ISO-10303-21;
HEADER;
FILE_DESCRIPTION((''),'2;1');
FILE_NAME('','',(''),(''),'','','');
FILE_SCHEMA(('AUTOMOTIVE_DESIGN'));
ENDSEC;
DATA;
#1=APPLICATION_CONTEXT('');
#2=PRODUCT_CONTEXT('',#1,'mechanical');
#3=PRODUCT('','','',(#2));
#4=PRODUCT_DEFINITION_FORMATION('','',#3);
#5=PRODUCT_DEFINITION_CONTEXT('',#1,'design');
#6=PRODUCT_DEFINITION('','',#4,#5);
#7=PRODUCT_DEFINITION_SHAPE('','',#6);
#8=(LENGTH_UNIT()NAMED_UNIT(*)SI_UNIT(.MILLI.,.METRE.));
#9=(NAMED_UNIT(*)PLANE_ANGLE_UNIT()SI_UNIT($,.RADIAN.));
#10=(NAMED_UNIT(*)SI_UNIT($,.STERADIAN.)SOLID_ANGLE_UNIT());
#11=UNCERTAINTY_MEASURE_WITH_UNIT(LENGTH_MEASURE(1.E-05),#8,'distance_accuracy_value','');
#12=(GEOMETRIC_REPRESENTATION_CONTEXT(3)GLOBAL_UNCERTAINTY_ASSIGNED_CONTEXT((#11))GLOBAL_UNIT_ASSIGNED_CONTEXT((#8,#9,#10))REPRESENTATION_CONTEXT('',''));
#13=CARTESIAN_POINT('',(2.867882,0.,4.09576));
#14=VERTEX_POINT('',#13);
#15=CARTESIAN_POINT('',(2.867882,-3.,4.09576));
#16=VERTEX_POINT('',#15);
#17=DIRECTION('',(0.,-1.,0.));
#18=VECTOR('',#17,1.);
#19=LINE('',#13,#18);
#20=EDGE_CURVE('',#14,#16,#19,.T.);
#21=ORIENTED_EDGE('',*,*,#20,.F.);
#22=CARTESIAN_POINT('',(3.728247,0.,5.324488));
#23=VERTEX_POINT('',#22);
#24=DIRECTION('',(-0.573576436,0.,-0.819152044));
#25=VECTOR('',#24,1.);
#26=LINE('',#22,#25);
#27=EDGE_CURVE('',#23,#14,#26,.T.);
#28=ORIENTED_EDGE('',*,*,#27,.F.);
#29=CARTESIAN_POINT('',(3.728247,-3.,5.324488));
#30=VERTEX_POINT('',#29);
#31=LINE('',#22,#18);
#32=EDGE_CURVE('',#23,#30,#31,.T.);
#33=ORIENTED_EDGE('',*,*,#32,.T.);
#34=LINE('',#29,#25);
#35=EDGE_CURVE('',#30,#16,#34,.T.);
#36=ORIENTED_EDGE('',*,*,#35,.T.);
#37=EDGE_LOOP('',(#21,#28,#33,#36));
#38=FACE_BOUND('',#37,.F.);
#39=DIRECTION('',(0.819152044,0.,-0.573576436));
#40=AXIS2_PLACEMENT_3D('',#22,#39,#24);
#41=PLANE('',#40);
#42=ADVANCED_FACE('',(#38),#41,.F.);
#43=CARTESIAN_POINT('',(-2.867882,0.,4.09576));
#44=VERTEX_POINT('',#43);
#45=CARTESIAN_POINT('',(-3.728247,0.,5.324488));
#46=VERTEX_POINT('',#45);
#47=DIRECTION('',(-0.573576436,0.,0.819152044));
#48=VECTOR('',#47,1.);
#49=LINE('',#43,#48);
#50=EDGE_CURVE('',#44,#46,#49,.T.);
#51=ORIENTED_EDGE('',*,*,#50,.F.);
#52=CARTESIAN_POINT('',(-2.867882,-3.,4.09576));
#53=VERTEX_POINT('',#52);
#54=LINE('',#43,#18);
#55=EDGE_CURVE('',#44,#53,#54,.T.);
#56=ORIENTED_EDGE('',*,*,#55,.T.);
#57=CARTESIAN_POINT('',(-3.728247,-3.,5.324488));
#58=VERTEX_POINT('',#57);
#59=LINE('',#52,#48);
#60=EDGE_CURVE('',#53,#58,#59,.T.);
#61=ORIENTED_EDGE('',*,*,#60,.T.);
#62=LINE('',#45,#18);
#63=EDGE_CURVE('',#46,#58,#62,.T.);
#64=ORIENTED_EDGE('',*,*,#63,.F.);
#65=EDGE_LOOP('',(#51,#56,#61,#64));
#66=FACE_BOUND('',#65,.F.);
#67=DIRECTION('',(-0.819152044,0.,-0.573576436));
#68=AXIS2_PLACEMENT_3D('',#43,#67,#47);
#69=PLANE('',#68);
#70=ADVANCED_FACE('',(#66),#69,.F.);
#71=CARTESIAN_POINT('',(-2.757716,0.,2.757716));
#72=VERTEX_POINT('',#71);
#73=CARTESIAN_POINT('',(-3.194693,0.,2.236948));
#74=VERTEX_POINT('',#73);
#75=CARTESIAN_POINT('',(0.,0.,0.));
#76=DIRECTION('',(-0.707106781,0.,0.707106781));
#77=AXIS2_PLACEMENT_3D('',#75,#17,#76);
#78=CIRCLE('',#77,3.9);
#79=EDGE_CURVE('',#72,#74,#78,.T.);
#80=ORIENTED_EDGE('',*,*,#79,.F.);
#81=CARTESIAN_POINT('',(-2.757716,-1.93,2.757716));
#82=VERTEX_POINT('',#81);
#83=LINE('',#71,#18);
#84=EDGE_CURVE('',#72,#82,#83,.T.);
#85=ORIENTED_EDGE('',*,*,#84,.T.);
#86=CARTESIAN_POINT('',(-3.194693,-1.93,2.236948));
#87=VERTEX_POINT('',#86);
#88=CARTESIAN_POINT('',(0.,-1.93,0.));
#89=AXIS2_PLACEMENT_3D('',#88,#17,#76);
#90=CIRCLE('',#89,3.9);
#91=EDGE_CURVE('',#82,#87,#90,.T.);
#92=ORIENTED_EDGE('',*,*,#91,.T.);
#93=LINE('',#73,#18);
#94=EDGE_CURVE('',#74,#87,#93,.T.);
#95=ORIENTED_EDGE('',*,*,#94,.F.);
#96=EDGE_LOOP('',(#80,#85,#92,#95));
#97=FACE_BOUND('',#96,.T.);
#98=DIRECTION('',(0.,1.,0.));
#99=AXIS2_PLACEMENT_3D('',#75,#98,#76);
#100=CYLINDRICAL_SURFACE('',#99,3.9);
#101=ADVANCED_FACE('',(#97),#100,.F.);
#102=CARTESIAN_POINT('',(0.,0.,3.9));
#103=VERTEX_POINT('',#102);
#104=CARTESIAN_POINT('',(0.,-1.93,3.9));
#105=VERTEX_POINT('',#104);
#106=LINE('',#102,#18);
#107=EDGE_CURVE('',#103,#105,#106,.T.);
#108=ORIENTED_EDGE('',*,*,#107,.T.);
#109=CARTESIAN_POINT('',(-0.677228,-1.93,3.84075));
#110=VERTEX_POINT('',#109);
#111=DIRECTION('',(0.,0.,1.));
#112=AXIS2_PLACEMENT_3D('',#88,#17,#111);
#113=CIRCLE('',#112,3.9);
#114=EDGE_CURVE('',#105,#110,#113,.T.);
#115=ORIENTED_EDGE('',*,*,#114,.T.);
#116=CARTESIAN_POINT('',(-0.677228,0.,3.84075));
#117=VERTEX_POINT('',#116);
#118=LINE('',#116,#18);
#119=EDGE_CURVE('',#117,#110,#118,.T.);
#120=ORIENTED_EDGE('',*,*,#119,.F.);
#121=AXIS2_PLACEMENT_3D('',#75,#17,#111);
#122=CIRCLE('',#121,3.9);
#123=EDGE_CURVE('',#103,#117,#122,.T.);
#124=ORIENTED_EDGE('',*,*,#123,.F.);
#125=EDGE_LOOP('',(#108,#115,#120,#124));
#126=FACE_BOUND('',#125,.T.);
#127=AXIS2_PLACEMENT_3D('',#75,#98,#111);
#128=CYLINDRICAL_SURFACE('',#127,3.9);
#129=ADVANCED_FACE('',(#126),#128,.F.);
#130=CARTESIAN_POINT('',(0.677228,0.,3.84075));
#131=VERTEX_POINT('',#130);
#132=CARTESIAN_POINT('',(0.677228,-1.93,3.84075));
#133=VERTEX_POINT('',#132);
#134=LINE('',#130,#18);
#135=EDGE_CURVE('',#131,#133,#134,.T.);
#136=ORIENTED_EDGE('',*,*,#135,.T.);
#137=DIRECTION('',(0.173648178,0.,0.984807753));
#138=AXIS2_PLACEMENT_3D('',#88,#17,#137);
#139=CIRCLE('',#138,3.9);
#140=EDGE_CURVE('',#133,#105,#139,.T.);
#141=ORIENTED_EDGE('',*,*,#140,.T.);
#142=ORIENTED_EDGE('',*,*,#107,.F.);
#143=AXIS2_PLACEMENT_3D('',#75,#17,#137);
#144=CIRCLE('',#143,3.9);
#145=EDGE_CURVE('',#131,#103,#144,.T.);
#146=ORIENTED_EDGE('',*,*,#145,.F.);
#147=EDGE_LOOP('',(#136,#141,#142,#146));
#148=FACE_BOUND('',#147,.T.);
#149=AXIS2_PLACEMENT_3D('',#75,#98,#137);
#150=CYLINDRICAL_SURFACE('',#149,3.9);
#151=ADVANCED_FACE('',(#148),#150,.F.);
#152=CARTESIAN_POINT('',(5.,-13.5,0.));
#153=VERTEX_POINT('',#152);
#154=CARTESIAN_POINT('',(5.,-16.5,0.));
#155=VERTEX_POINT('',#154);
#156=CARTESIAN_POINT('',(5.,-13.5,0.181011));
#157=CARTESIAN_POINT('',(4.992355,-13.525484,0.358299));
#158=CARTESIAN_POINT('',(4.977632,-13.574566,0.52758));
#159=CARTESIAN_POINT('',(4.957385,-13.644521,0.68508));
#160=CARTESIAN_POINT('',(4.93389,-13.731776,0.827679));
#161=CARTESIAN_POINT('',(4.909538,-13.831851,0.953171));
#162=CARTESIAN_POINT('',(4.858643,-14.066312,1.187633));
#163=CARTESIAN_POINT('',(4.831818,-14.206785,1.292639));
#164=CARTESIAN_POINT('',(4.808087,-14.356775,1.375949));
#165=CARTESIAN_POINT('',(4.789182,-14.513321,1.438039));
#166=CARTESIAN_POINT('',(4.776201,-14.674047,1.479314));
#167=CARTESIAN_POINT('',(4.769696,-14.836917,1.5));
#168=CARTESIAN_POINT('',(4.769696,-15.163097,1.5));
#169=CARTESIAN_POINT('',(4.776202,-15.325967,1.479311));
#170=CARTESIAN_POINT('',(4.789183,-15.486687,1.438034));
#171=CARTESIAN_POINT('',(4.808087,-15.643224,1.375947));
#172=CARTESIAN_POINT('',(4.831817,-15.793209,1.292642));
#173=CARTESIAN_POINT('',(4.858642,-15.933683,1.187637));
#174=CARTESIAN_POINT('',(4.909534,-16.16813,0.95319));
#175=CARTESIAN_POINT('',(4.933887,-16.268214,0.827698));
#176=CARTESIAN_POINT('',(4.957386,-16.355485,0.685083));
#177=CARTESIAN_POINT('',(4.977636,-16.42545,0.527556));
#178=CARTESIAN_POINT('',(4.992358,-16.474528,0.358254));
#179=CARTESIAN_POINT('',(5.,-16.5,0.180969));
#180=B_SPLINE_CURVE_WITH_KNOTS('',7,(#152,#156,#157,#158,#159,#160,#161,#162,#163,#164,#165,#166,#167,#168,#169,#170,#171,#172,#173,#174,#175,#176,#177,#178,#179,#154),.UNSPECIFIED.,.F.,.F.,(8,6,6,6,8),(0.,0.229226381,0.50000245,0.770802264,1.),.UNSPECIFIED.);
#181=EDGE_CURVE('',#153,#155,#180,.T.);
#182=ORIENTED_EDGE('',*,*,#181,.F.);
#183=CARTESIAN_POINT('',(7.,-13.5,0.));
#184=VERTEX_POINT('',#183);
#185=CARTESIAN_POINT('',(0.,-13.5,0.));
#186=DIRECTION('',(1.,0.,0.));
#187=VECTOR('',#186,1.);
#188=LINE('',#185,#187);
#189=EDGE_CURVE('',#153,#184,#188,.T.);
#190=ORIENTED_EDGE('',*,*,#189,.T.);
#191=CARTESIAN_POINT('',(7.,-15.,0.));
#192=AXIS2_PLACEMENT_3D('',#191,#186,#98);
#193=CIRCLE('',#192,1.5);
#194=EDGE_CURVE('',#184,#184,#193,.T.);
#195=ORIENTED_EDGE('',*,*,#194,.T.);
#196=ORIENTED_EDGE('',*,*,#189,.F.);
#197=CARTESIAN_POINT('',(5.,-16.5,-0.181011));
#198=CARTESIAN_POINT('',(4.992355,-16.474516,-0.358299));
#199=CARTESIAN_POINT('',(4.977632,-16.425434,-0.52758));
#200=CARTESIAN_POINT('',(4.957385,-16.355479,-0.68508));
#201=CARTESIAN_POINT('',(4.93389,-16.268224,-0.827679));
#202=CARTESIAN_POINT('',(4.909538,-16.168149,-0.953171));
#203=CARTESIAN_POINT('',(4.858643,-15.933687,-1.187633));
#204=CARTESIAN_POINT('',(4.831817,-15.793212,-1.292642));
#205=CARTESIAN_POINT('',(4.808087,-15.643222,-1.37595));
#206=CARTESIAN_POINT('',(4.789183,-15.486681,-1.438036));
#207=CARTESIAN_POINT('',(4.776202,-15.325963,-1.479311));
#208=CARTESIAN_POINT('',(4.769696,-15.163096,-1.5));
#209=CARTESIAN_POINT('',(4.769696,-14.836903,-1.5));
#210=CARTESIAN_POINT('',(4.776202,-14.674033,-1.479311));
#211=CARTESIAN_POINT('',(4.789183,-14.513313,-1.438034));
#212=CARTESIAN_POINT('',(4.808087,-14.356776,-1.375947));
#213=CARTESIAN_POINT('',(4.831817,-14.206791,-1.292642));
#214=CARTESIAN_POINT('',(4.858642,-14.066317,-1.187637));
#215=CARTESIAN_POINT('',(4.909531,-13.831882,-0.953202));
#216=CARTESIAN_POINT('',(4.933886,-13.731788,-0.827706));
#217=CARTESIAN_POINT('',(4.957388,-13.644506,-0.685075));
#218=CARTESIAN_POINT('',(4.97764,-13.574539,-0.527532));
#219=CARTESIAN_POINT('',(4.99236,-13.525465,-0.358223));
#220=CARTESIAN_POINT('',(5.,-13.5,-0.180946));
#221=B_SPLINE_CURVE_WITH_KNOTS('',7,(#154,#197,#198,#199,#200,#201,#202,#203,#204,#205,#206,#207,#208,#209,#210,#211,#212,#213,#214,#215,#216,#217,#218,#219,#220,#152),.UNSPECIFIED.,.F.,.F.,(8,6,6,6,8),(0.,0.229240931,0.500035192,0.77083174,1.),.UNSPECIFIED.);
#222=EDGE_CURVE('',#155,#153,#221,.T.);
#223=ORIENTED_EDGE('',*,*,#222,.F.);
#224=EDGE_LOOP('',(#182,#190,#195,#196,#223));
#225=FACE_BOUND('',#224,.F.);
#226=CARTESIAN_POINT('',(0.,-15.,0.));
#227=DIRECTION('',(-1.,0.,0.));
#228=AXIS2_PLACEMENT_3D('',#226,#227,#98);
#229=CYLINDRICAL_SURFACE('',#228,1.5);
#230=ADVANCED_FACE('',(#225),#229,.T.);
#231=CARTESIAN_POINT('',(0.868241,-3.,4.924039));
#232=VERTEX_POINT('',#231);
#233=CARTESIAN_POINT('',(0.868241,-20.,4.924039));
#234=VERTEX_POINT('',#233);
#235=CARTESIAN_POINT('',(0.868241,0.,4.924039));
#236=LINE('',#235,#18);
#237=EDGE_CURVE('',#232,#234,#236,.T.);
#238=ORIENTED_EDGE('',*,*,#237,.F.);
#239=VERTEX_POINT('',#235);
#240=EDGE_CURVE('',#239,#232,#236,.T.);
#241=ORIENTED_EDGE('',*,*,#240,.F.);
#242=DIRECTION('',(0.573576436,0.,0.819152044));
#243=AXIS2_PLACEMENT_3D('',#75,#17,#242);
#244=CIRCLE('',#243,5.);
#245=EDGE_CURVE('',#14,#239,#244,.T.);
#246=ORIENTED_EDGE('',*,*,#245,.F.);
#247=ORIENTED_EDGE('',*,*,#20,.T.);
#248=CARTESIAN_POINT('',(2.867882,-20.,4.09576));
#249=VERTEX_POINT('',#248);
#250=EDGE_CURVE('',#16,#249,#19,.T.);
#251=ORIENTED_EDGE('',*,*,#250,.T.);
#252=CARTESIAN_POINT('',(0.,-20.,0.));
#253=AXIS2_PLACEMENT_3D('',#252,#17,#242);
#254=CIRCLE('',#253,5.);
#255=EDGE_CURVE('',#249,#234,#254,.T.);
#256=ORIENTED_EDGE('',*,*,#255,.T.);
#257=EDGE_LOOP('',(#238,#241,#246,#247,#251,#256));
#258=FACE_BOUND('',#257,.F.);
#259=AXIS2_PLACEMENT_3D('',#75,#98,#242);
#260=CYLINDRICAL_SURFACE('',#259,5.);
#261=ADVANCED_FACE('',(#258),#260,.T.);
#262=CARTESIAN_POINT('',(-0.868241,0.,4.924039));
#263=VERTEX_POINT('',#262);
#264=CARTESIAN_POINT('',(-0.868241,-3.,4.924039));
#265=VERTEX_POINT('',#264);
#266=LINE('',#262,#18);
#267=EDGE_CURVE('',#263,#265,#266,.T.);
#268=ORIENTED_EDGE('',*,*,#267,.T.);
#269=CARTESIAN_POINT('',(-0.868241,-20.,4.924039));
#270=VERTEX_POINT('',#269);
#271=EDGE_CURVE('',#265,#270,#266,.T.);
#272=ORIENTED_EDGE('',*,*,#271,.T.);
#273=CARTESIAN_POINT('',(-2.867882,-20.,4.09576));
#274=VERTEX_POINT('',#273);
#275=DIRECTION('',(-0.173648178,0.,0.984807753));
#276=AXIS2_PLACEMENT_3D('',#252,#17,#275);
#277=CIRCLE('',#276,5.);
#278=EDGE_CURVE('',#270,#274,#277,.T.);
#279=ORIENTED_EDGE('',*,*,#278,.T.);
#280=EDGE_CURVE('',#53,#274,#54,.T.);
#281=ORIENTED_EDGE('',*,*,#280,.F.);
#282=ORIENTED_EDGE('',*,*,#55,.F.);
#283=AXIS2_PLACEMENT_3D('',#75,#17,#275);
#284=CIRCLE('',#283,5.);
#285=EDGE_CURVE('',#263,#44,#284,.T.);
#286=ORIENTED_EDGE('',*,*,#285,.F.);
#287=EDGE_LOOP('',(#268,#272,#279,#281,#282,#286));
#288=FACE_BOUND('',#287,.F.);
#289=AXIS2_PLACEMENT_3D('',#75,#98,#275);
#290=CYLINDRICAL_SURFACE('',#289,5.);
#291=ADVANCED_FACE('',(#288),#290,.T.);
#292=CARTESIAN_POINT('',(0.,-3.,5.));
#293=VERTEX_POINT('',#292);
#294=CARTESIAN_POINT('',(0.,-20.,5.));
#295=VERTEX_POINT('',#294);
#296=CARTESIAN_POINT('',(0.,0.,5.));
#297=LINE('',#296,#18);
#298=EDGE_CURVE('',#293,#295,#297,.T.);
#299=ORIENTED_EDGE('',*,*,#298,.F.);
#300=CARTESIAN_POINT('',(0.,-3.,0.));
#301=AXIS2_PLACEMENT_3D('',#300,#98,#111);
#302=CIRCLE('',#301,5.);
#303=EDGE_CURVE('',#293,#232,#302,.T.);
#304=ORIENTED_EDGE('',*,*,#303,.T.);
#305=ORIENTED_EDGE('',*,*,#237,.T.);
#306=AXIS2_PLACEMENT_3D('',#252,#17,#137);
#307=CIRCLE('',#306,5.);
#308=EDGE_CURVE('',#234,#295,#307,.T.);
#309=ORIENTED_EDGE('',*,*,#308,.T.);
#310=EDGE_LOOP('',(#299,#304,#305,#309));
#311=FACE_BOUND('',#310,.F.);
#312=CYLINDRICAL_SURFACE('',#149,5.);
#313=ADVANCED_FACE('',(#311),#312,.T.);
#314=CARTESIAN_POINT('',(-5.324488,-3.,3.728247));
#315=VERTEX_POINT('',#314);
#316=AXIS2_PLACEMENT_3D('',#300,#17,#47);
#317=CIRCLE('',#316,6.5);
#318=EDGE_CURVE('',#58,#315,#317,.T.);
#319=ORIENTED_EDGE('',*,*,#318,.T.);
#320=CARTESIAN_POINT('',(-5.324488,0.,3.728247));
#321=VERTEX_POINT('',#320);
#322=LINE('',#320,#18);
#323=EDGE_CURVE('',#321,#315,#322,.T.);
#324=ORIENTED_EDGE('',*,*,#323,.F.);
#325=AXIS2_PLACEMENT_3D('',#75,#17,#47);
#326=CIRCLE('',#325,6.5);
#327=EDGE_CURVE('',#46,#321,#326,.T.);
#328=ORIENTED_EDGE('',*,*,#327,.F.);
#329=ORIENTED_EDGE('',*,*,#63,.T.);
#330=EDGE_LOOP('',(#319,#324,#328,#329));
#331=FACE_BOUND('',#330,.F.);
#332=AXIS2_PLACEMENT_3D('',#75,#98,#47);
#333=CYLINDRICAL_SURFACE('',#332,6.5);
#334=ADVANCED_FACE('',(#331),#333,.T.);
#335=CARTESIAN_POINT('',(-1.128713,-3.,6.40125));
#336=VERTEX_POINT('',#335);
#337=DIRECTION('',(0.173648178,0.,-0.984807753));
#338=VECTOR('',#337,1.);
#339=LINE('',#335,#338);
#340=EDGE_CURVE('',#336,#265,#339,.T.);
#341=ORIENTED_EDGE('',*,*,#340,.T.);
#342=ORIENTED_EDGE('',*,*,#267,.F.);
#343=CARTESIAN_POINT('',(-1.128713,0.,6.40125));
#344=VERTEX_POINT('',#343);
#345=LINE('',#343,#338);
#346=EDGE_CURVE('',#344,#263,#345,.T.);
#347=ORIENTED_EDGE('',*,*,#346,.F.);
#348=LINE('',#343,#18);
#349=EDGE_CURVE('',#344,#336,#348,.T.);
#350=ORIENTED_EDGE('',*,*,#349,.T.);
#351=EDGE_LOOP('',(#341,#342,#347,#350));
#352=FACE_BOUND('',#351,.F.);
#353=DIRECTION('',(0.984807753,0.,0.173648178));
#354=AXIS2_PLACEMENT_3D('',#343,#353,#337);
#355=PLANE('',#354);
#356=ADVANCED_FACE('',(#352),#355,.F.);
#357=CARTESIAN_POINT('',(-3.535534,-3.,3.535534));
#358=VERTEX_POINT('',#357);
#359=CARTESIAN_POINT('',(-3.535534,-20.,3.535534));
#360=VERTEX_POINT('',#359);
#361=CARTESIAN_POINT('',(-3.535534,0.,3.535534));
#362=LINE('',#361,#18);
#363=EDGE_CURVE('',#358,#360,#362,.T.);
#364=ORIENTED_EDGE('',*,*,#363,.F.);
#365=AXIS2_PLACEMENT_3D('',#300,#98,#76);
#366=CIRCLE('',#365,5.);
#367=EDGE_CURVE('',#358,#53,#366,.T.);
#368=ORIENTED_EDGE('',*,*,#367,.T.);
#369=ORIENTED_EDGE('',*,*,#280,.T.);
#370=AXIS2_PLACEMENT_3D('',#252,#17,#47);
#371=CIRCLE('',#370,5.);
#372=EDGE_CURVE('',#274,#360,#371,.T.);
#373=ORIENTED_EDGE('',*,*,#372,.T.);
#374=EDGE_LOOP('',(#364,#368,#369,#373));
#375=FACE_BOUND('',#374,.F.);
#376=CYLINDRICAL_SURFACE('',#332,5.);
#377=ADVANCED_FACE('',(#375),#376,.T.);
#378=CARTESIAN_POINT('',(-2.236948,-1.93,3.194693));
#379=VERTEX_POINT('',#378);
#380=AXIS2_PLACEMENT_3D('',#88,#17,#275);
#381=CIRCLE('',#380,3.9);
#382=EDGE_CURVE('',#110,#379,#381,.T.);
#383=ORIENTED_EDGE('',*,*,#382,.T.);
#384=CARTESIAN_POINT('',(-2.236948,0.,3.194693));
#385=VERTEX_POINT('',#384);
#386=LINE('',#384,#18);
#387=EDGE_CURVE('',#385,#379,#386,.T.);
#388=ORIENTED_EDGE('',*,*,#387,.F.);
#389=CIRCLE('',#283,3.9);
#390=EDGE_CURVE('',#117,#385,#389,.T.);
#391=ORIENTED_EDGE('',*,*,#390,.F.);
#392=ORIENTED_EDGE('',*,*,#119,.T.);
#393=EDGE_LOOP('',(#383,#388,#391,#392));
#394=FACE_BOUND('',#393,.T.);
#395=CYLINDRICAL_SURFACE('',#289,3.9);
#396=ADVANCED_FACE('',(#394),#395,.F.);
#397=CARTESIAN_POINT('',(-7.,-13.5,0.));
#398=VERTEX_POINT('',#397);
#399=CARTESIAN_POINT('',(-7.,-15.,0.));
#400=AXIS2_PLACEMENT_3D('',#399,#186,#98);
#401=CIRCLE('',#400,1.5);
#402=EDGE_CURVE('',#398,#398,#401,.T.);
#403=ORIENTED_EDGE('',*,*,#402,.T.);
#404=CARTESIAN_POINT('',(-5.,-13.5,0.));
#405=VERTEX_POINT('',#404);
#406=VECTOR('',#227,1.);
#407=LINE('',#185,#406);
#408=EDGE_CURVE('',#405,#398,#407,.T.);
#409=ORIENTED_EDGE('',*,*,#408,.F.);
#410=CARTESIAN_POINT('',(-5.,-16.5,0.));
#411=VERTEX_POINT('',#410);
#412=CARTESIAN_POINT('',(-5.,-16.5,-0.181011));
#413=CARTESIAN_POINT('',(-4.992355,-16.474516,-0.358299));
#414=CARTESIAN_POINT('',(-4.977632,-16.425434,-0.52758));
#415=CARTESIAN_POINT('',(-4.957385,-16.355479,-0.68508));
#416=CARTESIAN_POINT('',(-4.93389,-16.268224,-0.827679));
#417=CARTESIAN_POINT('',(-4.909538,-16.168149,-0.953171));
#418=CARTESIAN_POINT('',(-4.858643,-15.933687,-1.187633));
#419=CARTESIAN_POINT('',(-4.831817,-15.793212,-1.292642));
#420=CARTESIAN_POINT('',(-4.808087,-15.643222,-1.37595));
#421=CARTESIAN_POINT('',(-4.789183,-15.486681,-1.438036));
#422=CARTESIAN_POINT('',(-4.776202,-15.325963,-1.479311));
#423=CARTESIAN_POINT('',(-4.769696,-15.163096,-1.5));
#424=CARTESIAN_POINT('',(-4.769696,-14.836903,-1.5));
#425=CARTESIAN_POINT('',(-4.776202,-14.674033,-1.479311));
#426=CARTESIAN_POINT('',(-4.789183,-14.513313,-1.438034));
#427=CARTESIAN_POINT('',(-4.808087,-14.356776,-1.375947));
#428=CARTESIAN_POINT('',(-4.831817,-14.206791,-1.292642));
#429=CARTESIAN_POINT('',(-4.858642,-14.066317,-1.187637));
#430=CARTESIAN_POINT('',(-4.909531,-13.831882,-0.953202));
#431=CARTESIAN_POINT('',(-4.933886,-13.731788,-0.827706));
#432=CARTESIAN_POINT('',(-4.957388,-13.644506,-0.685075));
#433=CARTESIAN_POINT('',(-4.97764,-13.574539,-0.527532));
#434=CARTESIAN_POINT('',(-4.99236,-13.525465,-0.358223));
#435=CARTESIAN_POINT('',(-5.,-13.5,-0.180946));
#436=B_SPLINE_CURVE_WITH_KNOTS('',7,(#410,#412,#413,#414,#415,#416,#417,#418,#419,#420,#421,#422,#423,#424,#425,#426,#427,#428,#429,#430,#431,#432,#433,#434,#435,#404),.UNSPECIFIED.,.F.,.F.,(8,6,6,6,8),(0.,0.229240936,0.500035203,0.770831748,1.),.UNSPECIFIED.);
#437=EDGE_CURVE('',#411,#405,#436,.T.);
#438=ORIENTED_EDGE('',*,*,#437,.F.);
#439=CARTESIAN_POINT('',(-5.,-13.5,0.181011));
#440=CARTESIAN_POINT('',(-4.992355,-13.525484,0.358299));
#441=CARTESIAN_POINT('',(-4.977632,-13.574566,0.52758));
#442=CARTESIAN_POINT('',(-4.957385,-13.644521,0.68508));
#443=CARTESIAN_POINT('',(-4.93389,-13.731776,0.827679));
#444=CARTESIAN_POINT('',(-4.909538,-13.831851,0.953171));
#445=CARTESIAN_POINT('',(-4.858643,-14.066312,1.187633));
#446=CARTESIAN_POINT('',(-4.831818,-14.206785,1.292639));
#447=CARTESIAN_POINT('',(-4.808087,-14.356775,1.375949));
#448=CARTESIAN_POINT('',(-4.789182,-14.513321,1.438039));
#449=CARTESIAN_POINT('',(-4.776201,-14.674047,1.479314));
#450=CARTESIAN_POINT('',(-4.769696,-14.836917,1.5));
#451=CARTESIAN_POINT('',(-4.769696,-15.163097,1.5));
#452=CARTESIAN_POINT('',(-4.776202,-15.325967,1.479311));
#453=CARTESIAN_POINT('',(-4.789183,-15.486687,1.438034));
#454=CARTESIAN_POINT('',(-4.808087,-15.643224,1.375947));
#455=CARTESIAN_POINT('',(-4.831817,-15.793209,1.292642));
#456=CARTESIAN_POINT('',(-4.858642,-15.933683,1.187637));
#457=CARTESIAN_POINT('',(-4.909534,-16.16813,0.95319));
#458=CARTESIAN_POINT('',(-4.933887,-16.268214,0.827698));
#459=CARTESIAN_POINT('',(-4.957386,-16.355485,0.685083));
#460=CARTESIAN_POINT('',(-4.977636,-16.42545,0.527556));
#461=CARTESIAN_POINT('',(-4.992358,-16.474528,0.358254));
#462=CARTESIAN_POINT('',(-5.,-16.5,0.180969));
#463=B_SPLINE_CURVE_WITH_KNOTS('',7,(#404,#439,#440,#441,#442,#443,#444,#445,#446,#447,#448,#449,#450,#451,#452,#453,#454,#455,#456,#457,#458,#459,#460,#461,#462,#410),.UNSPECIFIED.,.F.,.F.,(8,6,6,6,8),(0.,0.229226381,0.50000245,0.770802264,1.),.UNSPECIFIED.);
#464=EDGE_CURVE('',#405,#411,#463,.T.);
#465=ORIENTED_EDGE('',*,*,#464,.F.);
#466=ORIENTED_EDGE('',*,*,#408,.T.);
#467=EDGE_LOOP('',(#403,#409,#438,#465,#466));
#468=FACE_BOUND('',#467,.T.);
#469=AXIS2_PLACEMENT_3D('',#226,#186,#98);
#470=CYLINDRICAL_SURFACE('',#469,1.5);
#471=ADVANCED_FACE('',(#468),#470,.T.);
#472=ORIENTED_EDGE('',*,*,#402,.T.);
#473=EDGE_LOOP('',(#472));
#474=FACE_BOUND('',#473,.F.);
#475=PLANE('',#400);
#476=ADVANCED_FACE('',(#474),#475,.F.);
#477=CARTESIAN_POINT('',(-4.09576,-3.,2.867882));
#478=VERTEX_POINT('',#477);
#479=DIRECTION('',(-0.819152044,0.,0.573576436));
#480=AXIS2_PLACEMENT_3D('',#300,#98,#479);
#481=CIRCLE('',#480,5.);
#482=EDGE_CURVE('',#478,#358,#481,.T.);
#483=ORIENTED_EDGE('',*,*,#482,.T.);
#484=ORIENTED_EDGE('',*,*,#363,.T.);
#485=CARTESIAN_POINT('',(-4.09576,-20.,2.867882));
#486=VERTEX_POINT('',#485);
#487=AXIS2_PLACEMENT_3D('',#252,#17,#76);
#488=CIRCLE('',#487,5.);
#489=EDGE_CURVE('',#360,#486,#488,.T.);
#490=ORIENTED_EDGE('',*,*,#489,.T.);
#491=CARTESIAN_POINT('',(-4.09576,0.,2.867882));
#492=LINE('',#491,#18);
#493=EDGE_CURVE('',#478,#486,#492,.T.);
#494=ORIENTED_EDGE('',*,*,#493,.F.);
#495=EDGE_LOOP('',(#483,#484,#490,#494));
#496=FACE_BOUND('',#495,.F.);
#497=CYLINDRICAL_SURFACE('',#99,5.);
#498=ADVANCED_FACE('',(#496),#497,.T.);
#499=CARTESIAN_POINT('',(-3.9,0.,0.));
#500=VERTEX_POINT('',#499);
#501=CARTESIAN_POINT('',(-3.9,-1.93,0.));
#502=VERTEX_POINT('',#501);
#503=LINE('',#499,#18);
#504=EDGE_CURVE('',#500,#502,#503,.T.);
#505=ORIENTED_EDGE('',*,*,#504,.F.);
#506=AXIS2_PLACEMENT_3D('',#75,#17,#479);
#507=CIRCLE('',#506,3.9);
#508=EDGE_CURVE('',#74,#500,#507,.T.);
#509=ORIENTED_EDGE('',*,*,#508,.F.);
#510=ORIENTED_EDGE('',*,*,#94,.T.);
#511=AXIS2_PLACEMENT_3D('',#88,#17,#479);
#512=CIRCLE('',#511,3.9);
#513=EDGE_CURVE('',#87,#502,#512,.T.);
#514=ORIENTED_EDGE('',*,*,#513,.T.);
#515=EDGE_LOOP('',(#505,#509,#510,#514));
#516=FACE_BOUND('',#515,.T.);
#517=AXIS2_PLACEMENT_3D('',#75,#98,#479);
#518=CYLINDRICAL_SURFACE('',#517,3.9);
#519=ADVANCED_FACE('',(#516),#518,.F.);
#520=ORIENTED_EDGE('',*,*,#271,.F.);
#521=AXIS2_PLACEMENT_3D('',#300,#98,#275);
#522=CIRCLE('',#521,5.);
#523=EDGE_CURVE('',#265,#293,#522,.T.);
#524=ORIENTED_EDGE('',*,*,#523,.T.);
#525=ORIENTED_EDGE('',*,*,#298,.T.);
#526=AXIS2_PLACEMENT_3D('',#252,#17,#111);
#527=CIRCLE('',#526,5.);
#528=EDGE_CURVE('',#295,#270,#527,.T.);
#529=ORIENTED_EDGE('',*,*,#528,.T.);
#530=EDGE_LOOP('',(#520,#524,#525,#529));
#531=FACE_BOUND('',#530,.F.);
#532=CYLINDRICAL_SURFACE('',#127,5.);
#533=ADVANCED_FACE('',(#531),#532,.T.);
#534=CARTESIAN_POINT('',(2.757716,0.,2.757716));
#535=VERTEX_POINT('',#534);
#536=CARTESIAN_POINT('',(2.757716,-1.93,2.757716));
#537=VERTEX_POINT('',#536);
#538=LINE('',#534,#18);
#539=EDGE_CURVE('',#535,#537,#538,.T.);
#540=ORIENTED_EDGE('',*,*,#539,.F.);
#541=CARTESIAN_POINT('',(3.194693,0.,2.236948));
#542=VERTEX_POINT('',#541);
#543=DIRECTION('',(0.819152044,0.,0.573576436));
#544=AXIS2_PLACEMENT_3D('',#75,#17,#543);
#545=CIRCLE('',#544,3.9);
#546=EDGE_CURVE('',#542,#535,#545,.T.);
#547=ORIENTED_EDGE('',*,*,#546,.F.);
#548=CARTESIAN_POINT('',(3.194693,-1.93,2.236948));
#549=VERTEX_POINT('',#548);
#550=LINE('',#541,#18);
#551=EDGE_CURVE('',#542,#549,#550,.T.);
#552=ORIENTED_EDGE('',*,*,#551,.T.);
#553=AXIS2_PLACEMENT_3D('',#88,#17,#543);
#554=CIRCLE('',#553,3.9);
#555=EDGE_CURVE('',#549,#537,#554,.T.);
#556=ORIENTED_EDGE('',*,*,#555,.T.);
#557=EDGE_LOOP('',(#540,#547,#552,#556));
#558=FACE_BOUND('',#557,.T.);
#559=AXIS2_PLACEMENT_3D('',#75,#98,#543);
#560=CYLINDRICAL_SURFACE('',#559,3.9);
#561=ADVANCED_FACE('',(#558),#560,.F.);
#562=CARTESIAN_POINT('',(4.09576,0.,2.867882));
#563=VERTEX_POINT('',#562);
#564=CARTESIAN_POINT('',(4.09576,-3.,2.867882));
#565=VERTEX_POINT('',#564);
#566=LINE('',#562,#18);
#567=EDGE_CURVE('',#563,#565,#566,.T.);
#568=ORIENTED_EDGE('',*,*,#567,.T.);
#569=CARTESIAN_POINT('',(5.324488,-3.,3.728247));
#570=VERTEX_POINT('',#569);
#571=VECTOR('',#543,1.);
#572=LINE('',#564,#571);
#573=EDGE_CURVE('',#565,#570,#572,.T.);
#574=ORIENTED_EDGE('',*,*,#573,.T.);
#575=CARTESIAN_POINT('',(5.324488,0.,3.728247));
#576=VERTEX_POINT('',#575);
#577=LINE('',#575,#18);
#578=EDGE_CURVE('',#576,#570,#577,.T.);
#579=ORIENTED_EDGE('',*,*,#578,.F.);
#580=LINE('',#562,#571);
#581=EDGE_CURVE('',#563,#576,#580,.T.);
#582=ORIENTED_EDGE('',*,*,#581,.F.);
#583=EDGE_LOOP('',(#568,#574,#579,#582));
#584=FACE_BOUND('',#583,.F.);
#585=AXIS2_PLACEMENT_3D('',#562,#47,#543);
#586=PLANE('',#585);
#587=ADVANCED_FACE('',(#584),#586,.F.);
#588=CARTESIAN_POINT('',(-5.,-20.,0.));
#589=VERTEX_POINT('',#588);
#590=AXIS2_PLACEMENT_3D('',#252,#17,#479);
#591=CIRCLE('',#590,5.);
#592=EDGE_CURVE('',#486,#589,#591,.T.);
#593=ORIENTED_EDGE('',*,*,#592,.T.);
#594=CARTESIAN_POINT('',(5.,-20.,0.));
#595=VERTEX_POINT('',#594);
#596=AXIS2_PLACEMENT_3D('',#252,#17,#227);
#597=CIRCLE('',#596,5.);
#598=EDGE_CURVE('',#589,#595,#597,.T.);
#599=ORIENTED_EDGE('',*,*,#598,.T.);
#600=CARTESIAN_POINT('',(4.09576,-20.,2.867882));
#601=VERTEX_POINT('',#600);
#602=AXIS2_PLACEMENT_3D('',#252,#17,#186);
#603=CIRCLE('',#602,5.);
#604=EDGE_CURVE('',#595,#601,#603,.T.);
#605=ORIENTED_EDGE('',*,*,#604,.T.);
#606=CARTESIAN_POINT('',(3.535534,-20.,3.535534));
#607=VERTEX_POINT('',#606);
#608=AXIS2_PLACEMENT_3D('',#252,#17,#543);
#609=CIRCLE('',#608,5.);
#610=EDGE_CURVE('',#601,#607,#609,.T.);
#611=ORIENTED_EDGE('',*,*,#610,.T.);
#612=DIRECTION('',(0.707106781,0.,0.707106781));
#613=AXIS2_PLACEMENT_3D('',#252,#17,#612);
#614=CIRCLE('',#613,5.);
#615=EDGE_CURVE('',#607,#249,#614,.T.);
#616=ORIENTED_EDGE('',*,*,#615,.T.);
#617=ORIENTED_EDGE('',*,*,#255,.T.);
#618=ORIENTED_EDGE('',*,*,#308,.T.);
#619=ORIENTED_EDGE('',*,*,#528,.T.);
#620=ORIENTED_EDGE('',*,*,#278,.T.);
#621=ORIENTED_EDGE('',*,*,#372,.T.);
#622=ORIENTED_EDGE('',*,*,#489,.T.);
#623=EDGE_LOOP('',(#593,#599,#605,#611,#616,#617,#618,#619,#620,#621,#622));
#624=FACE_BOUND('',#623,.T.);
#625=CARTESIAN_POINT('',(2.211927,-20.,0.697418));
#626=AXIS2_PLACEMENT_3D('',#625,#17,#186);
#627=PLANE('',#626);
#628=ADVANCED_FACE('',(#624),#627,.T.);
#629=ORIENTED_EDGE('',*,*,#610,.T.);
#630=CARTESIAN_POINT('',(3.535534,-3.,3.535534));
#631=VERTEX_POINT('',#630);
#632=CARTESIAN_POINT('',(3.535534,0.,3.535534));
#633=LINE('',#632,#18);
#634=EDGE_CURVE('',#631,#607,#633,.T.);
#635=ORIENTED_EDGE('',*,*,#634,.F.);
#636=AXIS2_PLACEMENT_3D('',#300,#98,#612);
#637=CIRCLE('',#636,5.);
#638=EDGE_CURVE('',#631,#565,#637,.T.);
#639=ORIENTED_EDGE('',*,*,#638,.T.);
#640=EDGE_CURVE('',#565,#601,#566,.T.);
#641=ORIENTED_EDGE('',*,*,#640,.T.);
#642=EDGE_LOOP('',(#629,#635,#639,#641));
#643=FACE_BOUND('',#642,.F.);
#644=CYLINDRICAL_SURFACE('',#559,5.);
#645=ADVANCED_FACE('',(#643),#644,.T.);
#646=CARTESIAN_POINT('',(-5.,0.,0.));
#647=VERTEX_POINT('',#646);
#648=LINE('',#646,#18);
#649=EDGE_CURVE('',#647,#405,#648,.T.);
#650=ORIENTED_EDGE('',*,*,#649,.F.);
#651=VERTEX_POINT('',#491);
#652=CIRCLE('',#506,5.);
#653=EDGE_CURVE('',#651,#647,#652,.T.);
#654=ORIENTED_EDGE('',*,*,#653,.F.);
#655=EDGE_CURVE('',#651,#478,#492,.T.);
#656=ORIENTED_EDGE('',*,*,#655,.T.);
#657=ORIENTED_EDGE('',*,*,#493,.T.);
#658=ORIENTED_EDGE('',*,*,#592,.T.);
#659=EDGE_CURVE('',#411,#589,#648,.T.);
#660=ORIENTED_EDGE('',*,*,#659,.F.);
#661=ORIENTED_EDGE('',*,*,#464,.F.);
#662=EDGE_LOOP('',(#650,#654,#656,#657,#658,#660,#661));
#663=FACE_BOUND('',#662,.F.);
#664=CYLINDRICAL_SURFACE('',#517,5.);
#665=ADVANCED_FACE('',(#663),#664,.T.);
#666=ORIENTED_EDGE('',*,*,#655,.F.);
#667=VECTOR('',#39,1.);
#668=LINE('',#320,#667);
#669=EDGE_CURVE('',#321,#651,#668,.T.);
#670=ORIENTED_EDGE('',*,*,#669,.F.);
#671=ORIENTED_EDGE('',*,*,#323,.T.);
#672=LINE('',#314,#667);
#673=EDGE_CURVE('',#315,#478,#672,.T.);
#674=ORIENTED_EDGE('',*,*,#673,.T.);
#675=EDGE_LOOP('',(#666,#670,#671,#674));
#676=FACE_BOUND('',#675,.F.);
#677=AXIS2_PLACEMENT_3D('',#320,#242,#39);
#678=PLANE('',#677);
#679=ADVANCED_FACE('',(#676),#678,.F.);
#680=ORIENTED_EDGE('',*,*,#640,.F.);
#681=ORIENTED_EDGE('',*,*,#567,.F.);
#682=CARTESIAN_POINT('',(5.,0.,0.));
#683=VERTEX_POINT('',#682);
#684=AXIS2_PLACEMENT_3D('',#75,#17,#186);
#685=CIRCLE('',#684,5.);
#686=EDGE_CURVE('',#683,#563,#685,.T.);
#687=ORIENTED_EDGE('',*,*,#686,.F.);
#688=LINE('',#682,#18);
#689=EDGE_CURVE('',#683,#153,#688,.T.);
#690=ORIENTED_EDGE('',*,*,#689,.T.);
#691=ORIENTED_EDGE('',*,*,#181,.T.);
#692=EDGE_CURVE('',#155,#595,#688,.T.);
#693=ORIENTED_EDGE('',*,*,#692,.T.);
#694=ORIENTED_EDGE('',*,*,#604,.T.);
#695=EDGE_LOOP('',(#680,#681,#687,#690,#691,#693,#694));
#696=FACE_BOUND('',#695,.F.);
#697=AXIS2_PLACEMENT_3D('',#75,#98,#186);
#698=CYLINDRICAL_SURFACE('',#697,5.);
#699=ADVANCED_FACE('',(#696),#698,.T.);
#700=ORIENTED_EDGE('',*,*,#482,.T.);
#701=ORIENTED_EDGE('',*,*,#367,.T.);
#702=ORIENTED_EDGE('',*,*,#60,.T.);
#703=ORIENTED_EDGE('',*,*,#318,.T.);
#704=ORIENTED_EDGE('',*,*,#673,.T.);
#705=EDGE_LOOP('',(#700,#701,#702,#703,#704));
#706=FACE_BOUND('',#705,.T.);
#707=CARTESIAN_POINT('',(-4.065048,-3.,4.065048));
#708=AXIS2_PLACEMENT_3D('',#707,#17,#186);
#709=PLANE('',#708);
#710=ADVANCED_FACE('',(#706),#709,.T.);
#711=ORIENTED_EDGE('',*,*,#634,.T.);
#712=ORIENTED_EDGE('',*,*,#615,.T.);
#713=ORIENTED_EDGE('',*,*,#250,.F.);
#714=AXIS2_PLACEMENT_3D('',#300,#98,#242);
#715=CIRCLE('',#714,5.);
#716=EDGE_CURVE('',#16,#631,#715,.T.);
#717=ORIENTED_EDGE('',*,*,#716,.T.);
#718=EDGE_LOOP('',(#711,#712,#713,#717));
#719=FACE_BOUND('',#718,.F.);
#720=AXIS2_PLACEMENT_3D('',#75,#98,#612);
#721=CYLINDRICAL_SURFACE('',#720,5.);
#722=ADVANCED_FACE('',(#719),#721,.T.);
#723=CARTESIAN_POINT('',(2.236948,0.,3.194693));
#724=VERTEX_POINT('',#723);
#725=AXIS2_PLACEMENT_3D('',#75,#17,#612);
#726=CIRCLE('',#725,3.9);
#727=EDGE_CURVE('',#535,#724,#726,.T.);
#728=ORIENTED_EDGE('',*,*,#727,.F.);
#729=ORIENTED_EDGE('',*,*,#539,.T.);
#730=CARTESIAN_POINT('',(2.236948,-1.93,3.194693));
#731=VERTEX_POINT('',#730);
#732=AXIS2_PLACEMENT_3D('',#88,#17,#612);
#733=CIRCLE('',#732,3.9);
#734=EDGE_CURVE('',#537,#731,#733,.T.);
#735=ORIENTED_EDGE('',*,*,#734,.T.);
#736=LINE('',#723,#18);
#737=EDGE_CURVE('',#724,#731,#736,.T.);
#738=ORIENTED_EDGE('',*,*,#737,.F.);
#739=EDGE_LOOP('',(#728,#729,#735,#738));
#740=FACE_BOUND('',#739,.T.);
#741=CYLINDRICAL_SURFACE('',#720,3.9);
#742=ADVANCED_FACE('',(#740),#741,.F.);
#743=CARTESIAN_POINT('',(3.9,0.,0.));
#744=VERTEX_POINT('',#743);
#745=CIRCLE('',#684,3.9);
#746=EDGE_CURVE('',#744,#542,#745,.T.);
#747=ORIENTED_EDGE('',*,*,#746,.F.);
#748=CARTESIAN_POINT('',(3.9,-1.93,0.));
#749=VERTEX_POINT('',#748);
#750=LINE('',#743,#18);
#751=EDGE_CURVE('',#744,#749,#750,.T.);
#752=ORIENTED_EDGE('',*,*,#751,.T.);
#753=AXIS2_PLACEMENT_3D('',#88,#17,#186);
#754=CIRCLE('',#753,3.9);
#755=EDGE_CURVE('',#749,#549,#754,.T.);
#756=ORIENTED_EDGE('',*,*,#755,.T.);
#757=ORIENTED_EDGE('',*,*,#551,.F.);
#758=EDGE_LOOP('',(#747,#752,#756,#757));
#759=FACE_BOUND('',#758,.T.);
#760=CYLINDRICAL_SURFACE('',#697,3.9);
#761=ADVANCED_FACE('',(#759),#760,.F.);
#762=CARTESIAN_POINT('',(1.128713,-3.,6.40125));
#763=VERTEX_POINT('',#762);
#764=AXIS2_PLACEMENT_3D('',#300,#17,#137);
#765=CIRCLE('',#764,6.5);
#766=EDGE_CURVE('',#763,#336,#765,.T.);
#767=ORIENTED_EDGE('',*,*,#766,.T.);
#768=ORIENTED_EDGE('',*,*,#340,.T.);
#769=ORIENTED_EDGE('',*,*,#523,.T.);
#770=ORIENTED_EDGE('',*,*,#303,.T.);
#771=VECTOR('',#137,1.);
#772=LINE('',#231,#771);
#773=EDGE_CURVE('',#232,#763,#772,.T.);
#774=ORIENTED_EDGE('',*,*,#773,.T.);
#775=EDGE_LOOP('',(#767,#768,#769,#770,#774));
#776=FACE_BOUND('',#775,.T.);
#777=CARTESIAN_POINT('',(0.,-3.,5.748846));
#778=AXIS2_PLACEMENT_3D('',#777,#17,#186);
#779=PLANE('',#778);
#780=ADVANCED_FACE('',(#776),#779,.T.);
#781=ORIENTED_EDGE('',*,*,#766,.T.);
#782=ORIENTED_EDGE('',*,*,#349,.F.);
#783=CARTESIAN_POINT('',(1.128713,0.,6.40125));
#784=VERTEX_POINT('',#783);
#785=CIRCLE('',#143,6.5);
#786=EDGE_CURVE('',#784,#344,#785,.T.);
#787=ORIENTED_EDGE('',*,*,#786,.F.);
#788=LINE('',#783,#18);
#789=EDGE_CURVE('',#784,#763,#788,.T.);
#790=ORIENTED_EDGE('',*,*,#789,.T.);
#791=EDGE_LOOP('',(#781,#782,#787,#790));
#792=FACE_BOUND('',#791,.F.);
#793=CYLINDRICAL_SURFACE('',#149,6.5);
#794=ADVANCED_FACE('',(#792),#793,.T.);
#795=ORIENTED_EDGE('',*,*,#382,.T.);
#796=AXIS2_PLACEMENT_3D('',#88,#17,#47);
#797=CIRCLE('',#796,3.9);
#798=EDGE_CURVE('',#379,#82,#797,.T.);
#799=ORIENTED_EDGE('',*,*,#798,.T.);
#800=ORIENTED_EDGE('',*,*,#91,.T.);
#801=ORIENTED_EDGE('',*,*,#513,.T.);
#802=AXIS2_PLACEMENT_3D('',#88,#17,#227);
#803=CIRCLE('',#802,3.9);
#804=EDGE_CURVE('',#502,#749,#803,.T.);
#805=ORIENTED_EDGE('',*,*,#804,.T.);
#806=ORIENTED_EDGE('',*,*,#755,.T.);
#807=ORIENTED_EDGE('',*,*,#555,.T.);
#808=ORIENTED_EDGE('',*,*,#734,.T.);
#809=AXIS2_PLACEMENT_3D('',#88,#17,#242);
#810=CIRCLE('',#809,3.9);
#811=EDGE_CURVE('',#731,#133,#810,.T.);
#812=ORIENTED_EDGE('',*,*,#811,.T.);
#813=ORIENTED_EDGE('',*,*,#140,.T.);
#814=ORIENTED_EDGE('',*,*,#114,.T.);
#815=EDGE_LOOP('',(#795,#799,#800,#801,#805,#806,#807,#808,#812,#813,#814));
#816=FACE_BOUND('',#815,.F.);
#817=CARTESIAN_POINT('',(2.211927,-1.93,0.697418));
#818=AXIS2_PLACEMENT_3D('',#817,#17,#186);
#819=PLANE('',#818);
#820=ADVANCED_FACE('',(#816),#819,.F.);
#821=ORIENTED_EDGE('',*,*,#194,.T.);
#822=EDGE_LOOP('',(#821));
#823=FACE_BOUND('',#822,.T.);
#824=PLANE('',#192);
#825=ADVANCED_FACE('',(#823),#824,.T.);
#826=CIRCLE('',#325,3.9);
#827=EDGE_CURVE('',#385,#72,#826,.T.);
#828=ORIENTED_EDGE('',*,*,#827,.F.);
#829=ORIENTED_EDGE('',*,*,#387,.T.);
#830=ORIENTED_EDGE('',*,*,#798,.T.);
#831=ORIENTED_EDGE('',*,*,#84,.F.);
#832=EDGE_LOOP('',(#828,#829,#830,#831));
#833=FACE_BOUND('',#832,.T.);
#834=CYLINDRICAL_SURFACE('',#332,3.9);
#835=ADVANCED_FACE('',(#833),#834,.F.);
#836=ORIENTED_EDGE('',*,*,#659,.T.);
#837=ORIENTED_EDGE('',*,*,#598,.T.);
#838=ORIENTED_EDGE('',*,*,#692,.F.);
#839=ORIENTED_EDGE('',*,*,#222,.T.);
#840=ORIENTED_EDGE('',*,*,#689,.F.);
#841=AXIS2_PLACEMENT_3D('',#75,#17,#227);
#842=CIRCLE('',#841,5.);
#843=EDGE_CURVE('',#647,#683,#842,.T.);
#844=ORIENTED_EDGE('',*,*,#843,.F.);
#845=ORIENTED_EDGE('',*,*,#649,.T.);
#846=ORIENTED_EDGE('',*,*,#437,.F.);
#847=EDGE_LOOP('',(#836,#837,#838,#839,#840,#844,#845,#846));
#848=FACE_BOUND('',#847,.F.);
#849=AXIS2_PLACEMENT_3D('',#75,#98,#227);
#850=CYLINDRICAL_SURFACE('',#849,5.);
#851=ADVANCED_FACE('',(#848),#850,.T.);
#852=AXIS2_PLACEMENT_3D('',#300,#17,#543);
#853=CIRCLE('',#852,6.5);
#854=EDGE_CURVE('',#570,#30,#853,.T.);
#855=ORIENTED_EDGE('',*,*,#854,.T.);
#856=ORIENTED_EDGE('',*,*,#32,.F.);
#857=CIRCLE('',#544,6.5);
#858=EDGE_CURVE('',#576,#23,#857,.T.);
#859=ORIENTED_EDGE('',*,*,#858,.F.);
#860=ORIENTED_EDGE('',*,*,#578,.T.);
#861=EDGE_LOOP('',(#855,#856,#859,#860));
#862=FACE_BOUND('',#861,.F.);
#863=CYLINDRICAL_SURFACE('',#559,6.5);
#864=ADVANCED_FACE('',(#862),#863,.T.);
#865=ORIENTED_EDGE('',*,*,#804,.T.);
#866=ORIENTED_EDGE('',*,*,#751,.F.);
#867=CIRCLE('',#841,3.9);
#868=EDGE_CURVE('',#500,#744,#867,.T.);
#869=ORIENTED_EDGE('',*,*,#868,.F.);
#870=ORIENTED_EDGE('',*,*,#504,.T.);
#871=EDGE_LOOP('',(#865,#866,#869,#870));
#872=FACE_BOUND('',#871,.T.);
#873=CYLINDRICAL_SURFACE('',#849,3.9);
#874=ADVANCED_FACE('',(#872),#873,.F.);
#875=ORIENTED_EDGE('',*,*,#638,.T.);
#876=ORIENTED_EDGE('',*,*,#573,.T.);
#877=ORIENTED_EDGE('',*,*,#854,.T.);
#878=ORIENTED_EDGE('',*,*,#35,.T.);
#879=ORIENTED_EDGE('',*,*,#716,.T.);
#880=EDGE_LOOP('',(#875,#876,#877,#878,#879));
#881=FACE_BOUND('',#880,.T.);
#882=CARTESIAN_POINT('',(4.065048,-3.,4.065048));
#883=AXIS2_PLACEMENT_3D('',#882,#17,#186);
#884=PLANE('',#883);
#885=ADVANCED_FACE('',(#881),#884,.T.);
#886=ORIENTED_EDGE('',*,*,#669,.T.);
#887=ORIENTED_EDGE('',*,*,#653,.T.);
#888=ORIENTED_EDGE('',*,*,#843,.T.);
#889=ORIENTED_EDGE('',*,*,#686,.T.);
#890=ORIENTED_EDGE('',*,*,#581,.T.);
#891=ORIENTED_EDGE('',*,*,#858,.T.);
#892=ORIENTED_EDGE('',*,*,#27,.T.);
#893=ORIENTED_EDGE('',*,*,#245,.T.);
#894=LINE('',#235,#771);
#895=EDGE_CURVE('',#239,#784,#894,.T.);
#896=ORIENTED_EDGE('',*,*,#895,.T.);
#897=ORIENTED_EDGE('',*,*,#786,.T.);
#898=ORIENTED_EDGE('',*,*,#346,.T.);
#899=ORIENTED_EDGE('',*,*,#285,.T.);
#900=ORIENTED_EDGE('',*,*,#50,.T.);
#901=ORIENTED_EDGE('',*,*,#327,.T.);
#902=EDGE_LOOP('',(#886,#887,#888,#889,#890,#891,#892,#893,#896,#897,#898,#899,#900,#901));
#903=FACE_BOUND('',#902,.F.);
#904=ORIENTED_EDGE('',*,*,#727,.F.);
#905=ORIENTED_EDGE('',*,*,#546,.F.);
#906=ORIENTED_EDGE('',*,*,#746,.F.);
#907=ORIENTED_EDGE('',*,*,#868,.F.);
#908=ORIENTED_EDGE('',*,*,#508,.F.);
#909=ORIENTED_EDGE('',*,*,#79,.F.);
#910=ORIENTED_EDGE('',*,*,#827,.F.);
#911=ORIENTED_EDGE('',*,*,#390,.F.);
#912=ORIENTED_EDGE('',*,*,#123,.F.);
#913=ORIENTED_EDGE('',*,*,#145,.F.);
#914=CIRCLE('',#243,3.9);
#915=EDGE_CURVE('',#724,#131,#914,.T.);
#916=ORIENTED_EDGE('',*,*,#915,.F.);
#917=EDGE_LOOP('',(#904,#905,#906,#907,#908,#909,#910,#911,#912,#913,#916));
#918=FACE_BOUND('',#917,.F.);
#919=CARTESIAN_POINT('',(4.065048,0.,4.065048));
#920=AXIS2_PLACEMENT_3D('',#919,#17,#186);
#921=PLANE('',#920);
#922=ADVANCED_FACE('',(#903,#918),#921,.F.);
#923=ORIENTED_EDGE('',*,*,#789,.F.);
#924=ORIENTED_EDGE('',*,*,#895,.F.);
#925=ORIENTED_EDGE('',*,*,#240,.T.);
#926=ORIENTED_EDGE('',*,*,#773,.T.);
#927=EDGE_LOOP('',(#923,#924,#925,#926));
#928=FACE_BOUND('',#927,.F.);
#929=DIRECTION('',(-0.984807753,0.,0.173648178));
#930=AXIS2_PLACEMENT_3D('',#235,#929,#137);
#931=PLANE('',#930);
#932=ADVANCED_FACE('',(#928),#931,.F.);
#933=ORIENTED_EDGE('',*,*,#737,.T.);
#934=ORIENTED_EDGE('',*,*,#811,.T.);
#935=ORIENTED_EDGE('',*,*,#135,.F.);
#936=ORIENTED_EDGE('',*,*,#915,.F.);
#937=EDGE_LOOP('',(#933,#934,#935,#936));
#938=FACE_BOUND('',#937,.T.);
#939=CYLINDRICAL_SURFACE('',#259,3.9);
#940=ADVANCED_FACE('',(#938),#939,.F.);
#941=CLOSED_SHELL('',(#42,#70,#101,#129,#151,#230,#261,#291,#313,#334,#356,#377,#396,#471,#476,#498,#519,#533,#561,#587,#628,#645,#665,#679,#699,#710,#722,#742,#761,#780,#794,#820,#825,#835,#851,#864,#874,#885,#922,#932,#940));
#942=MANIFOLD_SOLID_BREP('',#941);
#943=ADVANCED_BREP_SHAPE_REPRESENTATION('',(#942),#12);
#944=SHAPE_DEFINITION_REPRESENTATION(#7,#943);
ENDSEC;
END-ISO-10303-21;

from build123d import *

# Parameters (mm, degrees)
F1_DEPTH      = 20
F2_DEPTH      = 1.93
F3_DEPTH      = 3
F4_R          = 1.5
F5_DEPTH      = 7
F5_DEPTH_BACK = 7


with BuildPart() as f1:
    # F0 (on Front) → F1 (new body)
    with BuildSketch(Plane.XZ):
        with BuildLine():
            Line((0, 0), (3.9, 0))
            ThreePointArc((3.9, 0), (3.7194961079, 1.1727526181), (3.1946929727, 2.2369481018))
            Line((3.1946929727, 2.2369481018), (0, 0))
        make_face()
        with BuildLine():
            Line((0, 0), (3.1946929727, 2.2369481018))
            ThreePointArc((3.1946929727, 2.2369481018), (2.9875733282, 2.5068716778), (2.7577164466, 2.7577164466))
            Line((2.7577164466, 2.7577164466), (0, 0))
        make_face()
        with BuildLine():
            Line((2.2369481018, 3.1946929727), (0, 0))
            Line((0, 0), (2.7577164466, 2.7577164466))
            ThreePointArc((2.7577164466, 2.7577164466), (2.5068716778, 2.9875733282), (2.2369481018, 3.1946929727))
        make_face()
        with BuildLine():
            Line((0.6772278929, 3.8407502367), (0, 0))
            Line((0, 0), (2.2369481018, 3.1946929727))
            ThreePointArc((2.2369481018, 3.1946929727), (1.4924653862, 3.6031301768), (0.6772278929, 3.8407502367))
        make_face()
        with BuildLine():
            Line((0, 3.9), (0, 0))
            Line((0, 0), (0.6772278929, 3.8407502367))
            ThreePointArc((0.6772278929, 3.8407502367), (0.3399073967, 3.8851593226), (0, 3.9))
        make_face()
        with BuildLine():
            Line((-0.6772278929, 3.8407502367), (0, 0))
            Line((0, 0), (0, 3.9))
            ThreePointArc((0, 3.9), (-0.3399073967, 3.8851593226), (-0.6772278929, 3.8407502367))
        make_face()
        with BuildLine():
            Line((-2.2369481018, 3.1946929727), (0, 0))
            Line((0, 0), (-0.6772278929, 3.8407502367))
            ThreePointArc((-0.6772278929, 3.8407502367), (-1.4924653862, 3.6031301768), (-2.2369481018, 3.1946929727))
        make_face()
        with BuildLine():
            Line((-2.7577164466, 2.7577164466), (0, 0))
            Line((0, 0), (-2.2369481018, 3.1946929727))
            ThreePointArc((-2.2369481018, 3.1946929727), (-2.5068716778, 2.9875733282), (-2.7577164466, 2.7577164466))
        make_face()
        with BuildLine():
            Line((-3.1946929727, 2.2369481018), (0, 0))
            Line((0, 0), (-2.7577164466, 2.7577164466))
            ThreePointArc((-2.7577164466, 2.7577164466), (-2.9875733282, 2.5068716778), (-3.1946929727, 2.2369481018))
        make_face()
        with BuildLine():
            ThreePointArc((-3.1946929727, 2.2369481018), (-3.7194961079, 1.1727526181), (-3.9, 0))
            Line((-3.9, 0), (0, 0))
            Line((0, 0), (-3.1946929727, 2.2369481018))
        make_face()
        with BuildLine():
            ThreePointArc((-3.9, 0), (0, -3.9), (3.9, 0))
            Line((3.9, 0), (0, 0))
            Line((0, 0), (-3.9, 0))
        make_face()
        with BuildLine():
            ThreePointArc((3.1946929727, 2.2369481018), (3.7194961079, 1.1727526181), (3.9, 0))
            Line((3.9, 0), (5, 0))
            ThreePointArc((5, 0), (4.7685847537, 1.5035289975), (4.0957602214, 2.8678821818))
            Line((4.0957602214, 2.8678821818), (3.1946929727, 2.2369481018))
        make_face()
        with BuildLine():
            ThreePointArc((2.7577164466, 2.7577164466), (2.9875733282, 2.5068716778), (3.1946929727, 2.2369481018))
            Line((3.1946929727, 2.2369481018), (4.0957602214, 2.8678821818))
            ThreePointArc((4.0957602214, 2.8678821818), (3.8302222156, 3.2139380484), (3.5355339059, 3.5355339059))
            Line((3.5355339059, 3.5355339059), (2.7577164466, 2.7577164466))
        make_face()
        with BuildLine():
            ThreePointArc((2.2369481018, 3.1946929727), (2.5068716778, 2.9875733282), (2.7577164466, 2.7577164466))
            Line((2.7577164466, 2.7577164466), (3.5355339059, 3.5355339059))
            ThreePointArc((3.5355339059, 3.5355339059), (3.2139380484, 3.8302222156), (2.8678821818, 4.0957602214))
            Line((2.8678821818, 4.0957602214), (2.2369481018, 3.1946929727))
        make_face()
        with BuildLine():
            ThreePointArc((0.6772278929, 3.8407502367), (1.4924653862, 3.6031301768), (2.2369481018, 3.1946929727))
            Line((2.2369481018, 3.1946929727), (2.8678821818, 4.0957602214))
            ThreePointArc((2.8678821818, 4.0957602214), (1.9134171618, 4.6193976626), (0.8682408883, 4.9240387651))
            Line((0.8682408883, 4.9240387651), (0.6772278929, 3.8407502367))
        make_face()
        with BuildLine():
            Line((0, 5), (0, 3.9))
            ThreePointArc((0, 3.9), (0.3399073967, 3.8851593226), (0.6772278929, 3.8407502367))
            Line((0.6772278929, 3.8407502367), (0.8682408883, 4.9240387651))
            ThreePointArc((0.8682408883, 4.9240387651), (0.4357787137, 4.9809734905), (0, 5))
        make_face()
        with BuildLine():
            ThreePointArc((-0.6772278929, 3.8407502367), (-0.3399073967, 3.8851593226), (0, 3.9))
            Line((0, 3.9), (0, 5))
            ThreePointArc((0, 5), (-0.4357787137, 4.9809734905), (-0.8682408883, 4.9240387651))
            Line((-0.8682408883, 4.9240387651), (-0.6772278929, 3.8407502367))
        make_face()
        with BuildLine():
            ThreePointArc((-2.2369481018, 3.1946929727), (-1.4924653862, 3.6031301768), (-0.6772278929, 3.8407502367))
            Line((-0.6772278929, 3.8407502367), (-0.8682408883, 4.9240387651))
            ThreePointArc((-0.8682408883, 4.9240387651), (-1.9134171618, 4.6193976626), (-2.8678821818, 4.0957602214))
            Line((-2.8678821818, 4.0957602214), (-2.2369481018, 3.1946929727))
        make_face()
        with BuildLine():
            Line((-3.5355339059, 3.5355339059), (-2.7577164466, 2.7577164466))
            ThreePointArc((-2.7577164466, 2.7577164466), (-2.5068716778, 2.9875733282), (-2.2369481018, 3.1946929727))
            Line((-2.2369481018, 3.1946929727), (-2.8678821818, 4.0957602214))
            ThreePointArc((-2.8678821818, 4.0957602214), (-3.2139380484, 3.8302222156), (-3.5355339059, 3.5355339059))
        make_face()
        with BuildLine():
            Line((-4.0957602214, 2.8678821818), (-3.1946929727, 2.2369481018))
            ThreePointArc((-3.1946929727, 2.2369481018), (-2.9875733282, 2.5068716778), (-2.7577164466, 2.7577164466))
            Line((-2.7577164466, 2.7577164466), (-3.5355339059, 3.5355339059))
            ThreePointArc((-3.5355339059, 3.5355339059), (-3.8302222156, 3.2139380484), (-4.0957602214, 2.8678821818))
        make_face()
        with BuildLine():
            Line((-5, 0), (-3.9, 0))
            ThreePointArc((-3.9, 0), (-3.7194961079, 1.1727526181), (-3.1946929727, 2.2369481018))
            Line((-3.1946929727, 2.2369481018), (-4.0957602214, 2.8678821818))
            ThreePointArc((-4.0957602214, 2.8678821818), (-4.7685847537, 1.5035289975), (-5, 0))
        make_face()
        with BuildLine():
            Line((5, 0), (3.9, 0))
            ThreePointArc((3.9, 0), (0, -3.9), (-3.9, 0))
            Line((-3.9, 0), (-5, 0))
            ThreePointArc((-5, 0), (0, -5), (5, 0))
        make_face()
    extrude(amount=F1_DEPTH)

    # F0 (on Front) → F2 (cut)
    with BuildSketch(Plane.XZ):
        with BuildLine():
            Line((0, 0), (3.9, 0))
            ThreePointArc((3.9, 0), (3.7194961079, 1.1727526181), (3.1946929727, 2.2369481018))
            Line((3.1946929727, 2.2369481018), (0, 0))
        make_face()
        with BuildLine():
            Line((0, 0), (3.1946929727, 2.2369481018))
            ThreePointArc((3.1946929727, 2.2369481018), (2.9875733282, 2.5068716778), (2.7577164466, 2.7577164466))
            Line((2.7577164466, 2.7577164466), (0, 0))
        make_face()
        with BuildLine():
            Line((2.2369481018, 3.1946929727), (0, 0))
            Line((0, 0), (2.7577164466, 2.7577164466))
            ThreePointArc((2.7577164466, 2.7577164466), (2.5068716778, 2.9875733282), (2.2369481018, 3.1946929727))
        make_face()
        with BuildLine():
            Line((0.6772278929, 3.8407502367), (0, 0))
            Line((0, 0), (2.2369481018, 3.1946929727))
            ThreePointArc((2.2369481018, 3.1946929727), (1.4924653862, 3.6031301768), (0.6772278929, 3.8407502367))
        make_face()
        with BuildLine():
            Line((0, 3.9), (0, 0))
            Line((0, 0), (0.6772278929, 3.8407502367))
            ThreePointArc((0.6772278929, 3.8407502367), (0.3399073967, 3.8851593226), (0, 3.9))
        make_face()
        with BuildLine():
            Line((-0.6772278929, 3.8407502367), (0, 0))
            Line((0, 0), (0, 3.9))
            ThreePointArc((0, 3.9), (-0.3399073967, 3.8851593226), (-0.6772278929, 3.8407502367))
        make_face()
        with BuildLine():
            Line((-2.2369481018, 3.1946929727), (0, 0))
            Line((0, 0), (-0.6772278929, 3.8407502367))
            ThreePointArc((-0.6772278929, 3.8407502367), (-1.4924653862, 3.6031301768), (-2.2369481018, 3.1946929727))
        make_face()
        with BuildLine():
            Line((-2.7577164466, 2.7577164466), (0, 0))
            Line((0, 0), (-2.2369481018, 3.1946929727))
            ThreePointArc((-2.2369481018, 3.1946929727), (-2.5068716778, 2.9875733282), (-2.7577164466, 2.7577164466))
        make_face()
        with BuildLine():
            Line((-3.1946929727, 2.2369481018), (0, 0))
            Line((0, 0), (-2.7577164466, 2.7577164466))
            ThreePointArc((-2.7577164466, 2.7577164466), (-2.9875733282, 2.5068716778), (-3.1946929727, 2.2369481018))
        make_face()
        with BuildLine():
            ThreePointArc((-3.1946929727, 2.2369481018), (-3.7194961079, 1.1727526181), (-3.9, 0))
            Line((-3.9, 0), (0, 0))
            Line((0, 0), (-3.1946929727, 2.2369481018))
        make_face()
        with BuildLine():
            ThreePointArc((-3.9, 0), (0, -3.9), (3.9, 0))
            Line((3.9, 0), (0, 0))
            Line((0, 0), (-3.9, 0))
        make_face()
    extrude(amount=F2_DEPTH, mode=Mode.SUBTRACT)

    # F0 (on Front) → F3 (join)
    with BuildSketch(Plane.XZ):
        with BuildLine():
            ThreePointArc((3.5355339059, 3.5355339059), (3.8302222156, 3.2139380484), (4.0957602214, 2.8678821818))
            Line((4.0957602214, 2.8678821818), (5.3244882879, 3.7282468363))
            ThreePointArc((5.3244882879, 3.7282468363), (4.5961940777, 4.5961940777), (3.7282468363, 5.3244882879))
            Line((3.7282468363, 5.3244882879), (2.8678821818, 4.0957602214))
            ThreePointArc((2.8678821818, 4.0957602214), (3.2139380484, 3.8302222156), (3.5355339059, 3.5355339059))
        make_face()
        with BuildLine():
            ThreePointArc((-0.8682408883, 4.9240387651), (-0.4357787137, 4.9809734905), (0, 5))
            ThreePointArc((0, 5), (0.4357787137, 4.9809734905), (0.8682408883, 4.9240387651))
            Line((0.8682408883, 4.9240387651), (1.1287131548, 6.4012503946))
            ThreePointArc((1.1287131548, 6.4012503946), (0, 6.5), (-1.1287131548, 6.4012503946))
            Line((-1.1287131548, 6.4012503946), (-0.8682408883, 4.9240387651))
        make_face()
        with BuildLine():
            Line((-5.3244882879, 3.7282468363), (-4.0957602214, 2.8678821818))
            ThreePointArc((-4.0957602214, 2.8678821818), (-3.8302222156, 3.2139380484), (-3.5355339059, 3.5355339059))
            ThreePointArc((-3.5355339059, 3.5355339059), (-3.2139380484, 3.8302222156), (-2.8678821818, 4.0957602214))
            Line((-2.8678821818, 4.0957602214), (-3.7282468363, 5.3244882879))
            ThreePointArc((-3.7282468363, 5.3244882879), (-4.5961940777, 4.5961940777), (-5.3244882879, 3.7282468363))
        make_face()
    extrude(amount=F3_DEPTH)

    # F4 (on Right) → F5 (join, two sides)
    with BuildSketch(Plane.YZ) as f5_sk:
        with Locations((-15, 0)):
            Circle(F4_R)
    extrude(amount=F5_DEPTH)
    extrude(f5_sk.sketch, amount=-F5_DEPTH_BACK)


solid = f1.part
